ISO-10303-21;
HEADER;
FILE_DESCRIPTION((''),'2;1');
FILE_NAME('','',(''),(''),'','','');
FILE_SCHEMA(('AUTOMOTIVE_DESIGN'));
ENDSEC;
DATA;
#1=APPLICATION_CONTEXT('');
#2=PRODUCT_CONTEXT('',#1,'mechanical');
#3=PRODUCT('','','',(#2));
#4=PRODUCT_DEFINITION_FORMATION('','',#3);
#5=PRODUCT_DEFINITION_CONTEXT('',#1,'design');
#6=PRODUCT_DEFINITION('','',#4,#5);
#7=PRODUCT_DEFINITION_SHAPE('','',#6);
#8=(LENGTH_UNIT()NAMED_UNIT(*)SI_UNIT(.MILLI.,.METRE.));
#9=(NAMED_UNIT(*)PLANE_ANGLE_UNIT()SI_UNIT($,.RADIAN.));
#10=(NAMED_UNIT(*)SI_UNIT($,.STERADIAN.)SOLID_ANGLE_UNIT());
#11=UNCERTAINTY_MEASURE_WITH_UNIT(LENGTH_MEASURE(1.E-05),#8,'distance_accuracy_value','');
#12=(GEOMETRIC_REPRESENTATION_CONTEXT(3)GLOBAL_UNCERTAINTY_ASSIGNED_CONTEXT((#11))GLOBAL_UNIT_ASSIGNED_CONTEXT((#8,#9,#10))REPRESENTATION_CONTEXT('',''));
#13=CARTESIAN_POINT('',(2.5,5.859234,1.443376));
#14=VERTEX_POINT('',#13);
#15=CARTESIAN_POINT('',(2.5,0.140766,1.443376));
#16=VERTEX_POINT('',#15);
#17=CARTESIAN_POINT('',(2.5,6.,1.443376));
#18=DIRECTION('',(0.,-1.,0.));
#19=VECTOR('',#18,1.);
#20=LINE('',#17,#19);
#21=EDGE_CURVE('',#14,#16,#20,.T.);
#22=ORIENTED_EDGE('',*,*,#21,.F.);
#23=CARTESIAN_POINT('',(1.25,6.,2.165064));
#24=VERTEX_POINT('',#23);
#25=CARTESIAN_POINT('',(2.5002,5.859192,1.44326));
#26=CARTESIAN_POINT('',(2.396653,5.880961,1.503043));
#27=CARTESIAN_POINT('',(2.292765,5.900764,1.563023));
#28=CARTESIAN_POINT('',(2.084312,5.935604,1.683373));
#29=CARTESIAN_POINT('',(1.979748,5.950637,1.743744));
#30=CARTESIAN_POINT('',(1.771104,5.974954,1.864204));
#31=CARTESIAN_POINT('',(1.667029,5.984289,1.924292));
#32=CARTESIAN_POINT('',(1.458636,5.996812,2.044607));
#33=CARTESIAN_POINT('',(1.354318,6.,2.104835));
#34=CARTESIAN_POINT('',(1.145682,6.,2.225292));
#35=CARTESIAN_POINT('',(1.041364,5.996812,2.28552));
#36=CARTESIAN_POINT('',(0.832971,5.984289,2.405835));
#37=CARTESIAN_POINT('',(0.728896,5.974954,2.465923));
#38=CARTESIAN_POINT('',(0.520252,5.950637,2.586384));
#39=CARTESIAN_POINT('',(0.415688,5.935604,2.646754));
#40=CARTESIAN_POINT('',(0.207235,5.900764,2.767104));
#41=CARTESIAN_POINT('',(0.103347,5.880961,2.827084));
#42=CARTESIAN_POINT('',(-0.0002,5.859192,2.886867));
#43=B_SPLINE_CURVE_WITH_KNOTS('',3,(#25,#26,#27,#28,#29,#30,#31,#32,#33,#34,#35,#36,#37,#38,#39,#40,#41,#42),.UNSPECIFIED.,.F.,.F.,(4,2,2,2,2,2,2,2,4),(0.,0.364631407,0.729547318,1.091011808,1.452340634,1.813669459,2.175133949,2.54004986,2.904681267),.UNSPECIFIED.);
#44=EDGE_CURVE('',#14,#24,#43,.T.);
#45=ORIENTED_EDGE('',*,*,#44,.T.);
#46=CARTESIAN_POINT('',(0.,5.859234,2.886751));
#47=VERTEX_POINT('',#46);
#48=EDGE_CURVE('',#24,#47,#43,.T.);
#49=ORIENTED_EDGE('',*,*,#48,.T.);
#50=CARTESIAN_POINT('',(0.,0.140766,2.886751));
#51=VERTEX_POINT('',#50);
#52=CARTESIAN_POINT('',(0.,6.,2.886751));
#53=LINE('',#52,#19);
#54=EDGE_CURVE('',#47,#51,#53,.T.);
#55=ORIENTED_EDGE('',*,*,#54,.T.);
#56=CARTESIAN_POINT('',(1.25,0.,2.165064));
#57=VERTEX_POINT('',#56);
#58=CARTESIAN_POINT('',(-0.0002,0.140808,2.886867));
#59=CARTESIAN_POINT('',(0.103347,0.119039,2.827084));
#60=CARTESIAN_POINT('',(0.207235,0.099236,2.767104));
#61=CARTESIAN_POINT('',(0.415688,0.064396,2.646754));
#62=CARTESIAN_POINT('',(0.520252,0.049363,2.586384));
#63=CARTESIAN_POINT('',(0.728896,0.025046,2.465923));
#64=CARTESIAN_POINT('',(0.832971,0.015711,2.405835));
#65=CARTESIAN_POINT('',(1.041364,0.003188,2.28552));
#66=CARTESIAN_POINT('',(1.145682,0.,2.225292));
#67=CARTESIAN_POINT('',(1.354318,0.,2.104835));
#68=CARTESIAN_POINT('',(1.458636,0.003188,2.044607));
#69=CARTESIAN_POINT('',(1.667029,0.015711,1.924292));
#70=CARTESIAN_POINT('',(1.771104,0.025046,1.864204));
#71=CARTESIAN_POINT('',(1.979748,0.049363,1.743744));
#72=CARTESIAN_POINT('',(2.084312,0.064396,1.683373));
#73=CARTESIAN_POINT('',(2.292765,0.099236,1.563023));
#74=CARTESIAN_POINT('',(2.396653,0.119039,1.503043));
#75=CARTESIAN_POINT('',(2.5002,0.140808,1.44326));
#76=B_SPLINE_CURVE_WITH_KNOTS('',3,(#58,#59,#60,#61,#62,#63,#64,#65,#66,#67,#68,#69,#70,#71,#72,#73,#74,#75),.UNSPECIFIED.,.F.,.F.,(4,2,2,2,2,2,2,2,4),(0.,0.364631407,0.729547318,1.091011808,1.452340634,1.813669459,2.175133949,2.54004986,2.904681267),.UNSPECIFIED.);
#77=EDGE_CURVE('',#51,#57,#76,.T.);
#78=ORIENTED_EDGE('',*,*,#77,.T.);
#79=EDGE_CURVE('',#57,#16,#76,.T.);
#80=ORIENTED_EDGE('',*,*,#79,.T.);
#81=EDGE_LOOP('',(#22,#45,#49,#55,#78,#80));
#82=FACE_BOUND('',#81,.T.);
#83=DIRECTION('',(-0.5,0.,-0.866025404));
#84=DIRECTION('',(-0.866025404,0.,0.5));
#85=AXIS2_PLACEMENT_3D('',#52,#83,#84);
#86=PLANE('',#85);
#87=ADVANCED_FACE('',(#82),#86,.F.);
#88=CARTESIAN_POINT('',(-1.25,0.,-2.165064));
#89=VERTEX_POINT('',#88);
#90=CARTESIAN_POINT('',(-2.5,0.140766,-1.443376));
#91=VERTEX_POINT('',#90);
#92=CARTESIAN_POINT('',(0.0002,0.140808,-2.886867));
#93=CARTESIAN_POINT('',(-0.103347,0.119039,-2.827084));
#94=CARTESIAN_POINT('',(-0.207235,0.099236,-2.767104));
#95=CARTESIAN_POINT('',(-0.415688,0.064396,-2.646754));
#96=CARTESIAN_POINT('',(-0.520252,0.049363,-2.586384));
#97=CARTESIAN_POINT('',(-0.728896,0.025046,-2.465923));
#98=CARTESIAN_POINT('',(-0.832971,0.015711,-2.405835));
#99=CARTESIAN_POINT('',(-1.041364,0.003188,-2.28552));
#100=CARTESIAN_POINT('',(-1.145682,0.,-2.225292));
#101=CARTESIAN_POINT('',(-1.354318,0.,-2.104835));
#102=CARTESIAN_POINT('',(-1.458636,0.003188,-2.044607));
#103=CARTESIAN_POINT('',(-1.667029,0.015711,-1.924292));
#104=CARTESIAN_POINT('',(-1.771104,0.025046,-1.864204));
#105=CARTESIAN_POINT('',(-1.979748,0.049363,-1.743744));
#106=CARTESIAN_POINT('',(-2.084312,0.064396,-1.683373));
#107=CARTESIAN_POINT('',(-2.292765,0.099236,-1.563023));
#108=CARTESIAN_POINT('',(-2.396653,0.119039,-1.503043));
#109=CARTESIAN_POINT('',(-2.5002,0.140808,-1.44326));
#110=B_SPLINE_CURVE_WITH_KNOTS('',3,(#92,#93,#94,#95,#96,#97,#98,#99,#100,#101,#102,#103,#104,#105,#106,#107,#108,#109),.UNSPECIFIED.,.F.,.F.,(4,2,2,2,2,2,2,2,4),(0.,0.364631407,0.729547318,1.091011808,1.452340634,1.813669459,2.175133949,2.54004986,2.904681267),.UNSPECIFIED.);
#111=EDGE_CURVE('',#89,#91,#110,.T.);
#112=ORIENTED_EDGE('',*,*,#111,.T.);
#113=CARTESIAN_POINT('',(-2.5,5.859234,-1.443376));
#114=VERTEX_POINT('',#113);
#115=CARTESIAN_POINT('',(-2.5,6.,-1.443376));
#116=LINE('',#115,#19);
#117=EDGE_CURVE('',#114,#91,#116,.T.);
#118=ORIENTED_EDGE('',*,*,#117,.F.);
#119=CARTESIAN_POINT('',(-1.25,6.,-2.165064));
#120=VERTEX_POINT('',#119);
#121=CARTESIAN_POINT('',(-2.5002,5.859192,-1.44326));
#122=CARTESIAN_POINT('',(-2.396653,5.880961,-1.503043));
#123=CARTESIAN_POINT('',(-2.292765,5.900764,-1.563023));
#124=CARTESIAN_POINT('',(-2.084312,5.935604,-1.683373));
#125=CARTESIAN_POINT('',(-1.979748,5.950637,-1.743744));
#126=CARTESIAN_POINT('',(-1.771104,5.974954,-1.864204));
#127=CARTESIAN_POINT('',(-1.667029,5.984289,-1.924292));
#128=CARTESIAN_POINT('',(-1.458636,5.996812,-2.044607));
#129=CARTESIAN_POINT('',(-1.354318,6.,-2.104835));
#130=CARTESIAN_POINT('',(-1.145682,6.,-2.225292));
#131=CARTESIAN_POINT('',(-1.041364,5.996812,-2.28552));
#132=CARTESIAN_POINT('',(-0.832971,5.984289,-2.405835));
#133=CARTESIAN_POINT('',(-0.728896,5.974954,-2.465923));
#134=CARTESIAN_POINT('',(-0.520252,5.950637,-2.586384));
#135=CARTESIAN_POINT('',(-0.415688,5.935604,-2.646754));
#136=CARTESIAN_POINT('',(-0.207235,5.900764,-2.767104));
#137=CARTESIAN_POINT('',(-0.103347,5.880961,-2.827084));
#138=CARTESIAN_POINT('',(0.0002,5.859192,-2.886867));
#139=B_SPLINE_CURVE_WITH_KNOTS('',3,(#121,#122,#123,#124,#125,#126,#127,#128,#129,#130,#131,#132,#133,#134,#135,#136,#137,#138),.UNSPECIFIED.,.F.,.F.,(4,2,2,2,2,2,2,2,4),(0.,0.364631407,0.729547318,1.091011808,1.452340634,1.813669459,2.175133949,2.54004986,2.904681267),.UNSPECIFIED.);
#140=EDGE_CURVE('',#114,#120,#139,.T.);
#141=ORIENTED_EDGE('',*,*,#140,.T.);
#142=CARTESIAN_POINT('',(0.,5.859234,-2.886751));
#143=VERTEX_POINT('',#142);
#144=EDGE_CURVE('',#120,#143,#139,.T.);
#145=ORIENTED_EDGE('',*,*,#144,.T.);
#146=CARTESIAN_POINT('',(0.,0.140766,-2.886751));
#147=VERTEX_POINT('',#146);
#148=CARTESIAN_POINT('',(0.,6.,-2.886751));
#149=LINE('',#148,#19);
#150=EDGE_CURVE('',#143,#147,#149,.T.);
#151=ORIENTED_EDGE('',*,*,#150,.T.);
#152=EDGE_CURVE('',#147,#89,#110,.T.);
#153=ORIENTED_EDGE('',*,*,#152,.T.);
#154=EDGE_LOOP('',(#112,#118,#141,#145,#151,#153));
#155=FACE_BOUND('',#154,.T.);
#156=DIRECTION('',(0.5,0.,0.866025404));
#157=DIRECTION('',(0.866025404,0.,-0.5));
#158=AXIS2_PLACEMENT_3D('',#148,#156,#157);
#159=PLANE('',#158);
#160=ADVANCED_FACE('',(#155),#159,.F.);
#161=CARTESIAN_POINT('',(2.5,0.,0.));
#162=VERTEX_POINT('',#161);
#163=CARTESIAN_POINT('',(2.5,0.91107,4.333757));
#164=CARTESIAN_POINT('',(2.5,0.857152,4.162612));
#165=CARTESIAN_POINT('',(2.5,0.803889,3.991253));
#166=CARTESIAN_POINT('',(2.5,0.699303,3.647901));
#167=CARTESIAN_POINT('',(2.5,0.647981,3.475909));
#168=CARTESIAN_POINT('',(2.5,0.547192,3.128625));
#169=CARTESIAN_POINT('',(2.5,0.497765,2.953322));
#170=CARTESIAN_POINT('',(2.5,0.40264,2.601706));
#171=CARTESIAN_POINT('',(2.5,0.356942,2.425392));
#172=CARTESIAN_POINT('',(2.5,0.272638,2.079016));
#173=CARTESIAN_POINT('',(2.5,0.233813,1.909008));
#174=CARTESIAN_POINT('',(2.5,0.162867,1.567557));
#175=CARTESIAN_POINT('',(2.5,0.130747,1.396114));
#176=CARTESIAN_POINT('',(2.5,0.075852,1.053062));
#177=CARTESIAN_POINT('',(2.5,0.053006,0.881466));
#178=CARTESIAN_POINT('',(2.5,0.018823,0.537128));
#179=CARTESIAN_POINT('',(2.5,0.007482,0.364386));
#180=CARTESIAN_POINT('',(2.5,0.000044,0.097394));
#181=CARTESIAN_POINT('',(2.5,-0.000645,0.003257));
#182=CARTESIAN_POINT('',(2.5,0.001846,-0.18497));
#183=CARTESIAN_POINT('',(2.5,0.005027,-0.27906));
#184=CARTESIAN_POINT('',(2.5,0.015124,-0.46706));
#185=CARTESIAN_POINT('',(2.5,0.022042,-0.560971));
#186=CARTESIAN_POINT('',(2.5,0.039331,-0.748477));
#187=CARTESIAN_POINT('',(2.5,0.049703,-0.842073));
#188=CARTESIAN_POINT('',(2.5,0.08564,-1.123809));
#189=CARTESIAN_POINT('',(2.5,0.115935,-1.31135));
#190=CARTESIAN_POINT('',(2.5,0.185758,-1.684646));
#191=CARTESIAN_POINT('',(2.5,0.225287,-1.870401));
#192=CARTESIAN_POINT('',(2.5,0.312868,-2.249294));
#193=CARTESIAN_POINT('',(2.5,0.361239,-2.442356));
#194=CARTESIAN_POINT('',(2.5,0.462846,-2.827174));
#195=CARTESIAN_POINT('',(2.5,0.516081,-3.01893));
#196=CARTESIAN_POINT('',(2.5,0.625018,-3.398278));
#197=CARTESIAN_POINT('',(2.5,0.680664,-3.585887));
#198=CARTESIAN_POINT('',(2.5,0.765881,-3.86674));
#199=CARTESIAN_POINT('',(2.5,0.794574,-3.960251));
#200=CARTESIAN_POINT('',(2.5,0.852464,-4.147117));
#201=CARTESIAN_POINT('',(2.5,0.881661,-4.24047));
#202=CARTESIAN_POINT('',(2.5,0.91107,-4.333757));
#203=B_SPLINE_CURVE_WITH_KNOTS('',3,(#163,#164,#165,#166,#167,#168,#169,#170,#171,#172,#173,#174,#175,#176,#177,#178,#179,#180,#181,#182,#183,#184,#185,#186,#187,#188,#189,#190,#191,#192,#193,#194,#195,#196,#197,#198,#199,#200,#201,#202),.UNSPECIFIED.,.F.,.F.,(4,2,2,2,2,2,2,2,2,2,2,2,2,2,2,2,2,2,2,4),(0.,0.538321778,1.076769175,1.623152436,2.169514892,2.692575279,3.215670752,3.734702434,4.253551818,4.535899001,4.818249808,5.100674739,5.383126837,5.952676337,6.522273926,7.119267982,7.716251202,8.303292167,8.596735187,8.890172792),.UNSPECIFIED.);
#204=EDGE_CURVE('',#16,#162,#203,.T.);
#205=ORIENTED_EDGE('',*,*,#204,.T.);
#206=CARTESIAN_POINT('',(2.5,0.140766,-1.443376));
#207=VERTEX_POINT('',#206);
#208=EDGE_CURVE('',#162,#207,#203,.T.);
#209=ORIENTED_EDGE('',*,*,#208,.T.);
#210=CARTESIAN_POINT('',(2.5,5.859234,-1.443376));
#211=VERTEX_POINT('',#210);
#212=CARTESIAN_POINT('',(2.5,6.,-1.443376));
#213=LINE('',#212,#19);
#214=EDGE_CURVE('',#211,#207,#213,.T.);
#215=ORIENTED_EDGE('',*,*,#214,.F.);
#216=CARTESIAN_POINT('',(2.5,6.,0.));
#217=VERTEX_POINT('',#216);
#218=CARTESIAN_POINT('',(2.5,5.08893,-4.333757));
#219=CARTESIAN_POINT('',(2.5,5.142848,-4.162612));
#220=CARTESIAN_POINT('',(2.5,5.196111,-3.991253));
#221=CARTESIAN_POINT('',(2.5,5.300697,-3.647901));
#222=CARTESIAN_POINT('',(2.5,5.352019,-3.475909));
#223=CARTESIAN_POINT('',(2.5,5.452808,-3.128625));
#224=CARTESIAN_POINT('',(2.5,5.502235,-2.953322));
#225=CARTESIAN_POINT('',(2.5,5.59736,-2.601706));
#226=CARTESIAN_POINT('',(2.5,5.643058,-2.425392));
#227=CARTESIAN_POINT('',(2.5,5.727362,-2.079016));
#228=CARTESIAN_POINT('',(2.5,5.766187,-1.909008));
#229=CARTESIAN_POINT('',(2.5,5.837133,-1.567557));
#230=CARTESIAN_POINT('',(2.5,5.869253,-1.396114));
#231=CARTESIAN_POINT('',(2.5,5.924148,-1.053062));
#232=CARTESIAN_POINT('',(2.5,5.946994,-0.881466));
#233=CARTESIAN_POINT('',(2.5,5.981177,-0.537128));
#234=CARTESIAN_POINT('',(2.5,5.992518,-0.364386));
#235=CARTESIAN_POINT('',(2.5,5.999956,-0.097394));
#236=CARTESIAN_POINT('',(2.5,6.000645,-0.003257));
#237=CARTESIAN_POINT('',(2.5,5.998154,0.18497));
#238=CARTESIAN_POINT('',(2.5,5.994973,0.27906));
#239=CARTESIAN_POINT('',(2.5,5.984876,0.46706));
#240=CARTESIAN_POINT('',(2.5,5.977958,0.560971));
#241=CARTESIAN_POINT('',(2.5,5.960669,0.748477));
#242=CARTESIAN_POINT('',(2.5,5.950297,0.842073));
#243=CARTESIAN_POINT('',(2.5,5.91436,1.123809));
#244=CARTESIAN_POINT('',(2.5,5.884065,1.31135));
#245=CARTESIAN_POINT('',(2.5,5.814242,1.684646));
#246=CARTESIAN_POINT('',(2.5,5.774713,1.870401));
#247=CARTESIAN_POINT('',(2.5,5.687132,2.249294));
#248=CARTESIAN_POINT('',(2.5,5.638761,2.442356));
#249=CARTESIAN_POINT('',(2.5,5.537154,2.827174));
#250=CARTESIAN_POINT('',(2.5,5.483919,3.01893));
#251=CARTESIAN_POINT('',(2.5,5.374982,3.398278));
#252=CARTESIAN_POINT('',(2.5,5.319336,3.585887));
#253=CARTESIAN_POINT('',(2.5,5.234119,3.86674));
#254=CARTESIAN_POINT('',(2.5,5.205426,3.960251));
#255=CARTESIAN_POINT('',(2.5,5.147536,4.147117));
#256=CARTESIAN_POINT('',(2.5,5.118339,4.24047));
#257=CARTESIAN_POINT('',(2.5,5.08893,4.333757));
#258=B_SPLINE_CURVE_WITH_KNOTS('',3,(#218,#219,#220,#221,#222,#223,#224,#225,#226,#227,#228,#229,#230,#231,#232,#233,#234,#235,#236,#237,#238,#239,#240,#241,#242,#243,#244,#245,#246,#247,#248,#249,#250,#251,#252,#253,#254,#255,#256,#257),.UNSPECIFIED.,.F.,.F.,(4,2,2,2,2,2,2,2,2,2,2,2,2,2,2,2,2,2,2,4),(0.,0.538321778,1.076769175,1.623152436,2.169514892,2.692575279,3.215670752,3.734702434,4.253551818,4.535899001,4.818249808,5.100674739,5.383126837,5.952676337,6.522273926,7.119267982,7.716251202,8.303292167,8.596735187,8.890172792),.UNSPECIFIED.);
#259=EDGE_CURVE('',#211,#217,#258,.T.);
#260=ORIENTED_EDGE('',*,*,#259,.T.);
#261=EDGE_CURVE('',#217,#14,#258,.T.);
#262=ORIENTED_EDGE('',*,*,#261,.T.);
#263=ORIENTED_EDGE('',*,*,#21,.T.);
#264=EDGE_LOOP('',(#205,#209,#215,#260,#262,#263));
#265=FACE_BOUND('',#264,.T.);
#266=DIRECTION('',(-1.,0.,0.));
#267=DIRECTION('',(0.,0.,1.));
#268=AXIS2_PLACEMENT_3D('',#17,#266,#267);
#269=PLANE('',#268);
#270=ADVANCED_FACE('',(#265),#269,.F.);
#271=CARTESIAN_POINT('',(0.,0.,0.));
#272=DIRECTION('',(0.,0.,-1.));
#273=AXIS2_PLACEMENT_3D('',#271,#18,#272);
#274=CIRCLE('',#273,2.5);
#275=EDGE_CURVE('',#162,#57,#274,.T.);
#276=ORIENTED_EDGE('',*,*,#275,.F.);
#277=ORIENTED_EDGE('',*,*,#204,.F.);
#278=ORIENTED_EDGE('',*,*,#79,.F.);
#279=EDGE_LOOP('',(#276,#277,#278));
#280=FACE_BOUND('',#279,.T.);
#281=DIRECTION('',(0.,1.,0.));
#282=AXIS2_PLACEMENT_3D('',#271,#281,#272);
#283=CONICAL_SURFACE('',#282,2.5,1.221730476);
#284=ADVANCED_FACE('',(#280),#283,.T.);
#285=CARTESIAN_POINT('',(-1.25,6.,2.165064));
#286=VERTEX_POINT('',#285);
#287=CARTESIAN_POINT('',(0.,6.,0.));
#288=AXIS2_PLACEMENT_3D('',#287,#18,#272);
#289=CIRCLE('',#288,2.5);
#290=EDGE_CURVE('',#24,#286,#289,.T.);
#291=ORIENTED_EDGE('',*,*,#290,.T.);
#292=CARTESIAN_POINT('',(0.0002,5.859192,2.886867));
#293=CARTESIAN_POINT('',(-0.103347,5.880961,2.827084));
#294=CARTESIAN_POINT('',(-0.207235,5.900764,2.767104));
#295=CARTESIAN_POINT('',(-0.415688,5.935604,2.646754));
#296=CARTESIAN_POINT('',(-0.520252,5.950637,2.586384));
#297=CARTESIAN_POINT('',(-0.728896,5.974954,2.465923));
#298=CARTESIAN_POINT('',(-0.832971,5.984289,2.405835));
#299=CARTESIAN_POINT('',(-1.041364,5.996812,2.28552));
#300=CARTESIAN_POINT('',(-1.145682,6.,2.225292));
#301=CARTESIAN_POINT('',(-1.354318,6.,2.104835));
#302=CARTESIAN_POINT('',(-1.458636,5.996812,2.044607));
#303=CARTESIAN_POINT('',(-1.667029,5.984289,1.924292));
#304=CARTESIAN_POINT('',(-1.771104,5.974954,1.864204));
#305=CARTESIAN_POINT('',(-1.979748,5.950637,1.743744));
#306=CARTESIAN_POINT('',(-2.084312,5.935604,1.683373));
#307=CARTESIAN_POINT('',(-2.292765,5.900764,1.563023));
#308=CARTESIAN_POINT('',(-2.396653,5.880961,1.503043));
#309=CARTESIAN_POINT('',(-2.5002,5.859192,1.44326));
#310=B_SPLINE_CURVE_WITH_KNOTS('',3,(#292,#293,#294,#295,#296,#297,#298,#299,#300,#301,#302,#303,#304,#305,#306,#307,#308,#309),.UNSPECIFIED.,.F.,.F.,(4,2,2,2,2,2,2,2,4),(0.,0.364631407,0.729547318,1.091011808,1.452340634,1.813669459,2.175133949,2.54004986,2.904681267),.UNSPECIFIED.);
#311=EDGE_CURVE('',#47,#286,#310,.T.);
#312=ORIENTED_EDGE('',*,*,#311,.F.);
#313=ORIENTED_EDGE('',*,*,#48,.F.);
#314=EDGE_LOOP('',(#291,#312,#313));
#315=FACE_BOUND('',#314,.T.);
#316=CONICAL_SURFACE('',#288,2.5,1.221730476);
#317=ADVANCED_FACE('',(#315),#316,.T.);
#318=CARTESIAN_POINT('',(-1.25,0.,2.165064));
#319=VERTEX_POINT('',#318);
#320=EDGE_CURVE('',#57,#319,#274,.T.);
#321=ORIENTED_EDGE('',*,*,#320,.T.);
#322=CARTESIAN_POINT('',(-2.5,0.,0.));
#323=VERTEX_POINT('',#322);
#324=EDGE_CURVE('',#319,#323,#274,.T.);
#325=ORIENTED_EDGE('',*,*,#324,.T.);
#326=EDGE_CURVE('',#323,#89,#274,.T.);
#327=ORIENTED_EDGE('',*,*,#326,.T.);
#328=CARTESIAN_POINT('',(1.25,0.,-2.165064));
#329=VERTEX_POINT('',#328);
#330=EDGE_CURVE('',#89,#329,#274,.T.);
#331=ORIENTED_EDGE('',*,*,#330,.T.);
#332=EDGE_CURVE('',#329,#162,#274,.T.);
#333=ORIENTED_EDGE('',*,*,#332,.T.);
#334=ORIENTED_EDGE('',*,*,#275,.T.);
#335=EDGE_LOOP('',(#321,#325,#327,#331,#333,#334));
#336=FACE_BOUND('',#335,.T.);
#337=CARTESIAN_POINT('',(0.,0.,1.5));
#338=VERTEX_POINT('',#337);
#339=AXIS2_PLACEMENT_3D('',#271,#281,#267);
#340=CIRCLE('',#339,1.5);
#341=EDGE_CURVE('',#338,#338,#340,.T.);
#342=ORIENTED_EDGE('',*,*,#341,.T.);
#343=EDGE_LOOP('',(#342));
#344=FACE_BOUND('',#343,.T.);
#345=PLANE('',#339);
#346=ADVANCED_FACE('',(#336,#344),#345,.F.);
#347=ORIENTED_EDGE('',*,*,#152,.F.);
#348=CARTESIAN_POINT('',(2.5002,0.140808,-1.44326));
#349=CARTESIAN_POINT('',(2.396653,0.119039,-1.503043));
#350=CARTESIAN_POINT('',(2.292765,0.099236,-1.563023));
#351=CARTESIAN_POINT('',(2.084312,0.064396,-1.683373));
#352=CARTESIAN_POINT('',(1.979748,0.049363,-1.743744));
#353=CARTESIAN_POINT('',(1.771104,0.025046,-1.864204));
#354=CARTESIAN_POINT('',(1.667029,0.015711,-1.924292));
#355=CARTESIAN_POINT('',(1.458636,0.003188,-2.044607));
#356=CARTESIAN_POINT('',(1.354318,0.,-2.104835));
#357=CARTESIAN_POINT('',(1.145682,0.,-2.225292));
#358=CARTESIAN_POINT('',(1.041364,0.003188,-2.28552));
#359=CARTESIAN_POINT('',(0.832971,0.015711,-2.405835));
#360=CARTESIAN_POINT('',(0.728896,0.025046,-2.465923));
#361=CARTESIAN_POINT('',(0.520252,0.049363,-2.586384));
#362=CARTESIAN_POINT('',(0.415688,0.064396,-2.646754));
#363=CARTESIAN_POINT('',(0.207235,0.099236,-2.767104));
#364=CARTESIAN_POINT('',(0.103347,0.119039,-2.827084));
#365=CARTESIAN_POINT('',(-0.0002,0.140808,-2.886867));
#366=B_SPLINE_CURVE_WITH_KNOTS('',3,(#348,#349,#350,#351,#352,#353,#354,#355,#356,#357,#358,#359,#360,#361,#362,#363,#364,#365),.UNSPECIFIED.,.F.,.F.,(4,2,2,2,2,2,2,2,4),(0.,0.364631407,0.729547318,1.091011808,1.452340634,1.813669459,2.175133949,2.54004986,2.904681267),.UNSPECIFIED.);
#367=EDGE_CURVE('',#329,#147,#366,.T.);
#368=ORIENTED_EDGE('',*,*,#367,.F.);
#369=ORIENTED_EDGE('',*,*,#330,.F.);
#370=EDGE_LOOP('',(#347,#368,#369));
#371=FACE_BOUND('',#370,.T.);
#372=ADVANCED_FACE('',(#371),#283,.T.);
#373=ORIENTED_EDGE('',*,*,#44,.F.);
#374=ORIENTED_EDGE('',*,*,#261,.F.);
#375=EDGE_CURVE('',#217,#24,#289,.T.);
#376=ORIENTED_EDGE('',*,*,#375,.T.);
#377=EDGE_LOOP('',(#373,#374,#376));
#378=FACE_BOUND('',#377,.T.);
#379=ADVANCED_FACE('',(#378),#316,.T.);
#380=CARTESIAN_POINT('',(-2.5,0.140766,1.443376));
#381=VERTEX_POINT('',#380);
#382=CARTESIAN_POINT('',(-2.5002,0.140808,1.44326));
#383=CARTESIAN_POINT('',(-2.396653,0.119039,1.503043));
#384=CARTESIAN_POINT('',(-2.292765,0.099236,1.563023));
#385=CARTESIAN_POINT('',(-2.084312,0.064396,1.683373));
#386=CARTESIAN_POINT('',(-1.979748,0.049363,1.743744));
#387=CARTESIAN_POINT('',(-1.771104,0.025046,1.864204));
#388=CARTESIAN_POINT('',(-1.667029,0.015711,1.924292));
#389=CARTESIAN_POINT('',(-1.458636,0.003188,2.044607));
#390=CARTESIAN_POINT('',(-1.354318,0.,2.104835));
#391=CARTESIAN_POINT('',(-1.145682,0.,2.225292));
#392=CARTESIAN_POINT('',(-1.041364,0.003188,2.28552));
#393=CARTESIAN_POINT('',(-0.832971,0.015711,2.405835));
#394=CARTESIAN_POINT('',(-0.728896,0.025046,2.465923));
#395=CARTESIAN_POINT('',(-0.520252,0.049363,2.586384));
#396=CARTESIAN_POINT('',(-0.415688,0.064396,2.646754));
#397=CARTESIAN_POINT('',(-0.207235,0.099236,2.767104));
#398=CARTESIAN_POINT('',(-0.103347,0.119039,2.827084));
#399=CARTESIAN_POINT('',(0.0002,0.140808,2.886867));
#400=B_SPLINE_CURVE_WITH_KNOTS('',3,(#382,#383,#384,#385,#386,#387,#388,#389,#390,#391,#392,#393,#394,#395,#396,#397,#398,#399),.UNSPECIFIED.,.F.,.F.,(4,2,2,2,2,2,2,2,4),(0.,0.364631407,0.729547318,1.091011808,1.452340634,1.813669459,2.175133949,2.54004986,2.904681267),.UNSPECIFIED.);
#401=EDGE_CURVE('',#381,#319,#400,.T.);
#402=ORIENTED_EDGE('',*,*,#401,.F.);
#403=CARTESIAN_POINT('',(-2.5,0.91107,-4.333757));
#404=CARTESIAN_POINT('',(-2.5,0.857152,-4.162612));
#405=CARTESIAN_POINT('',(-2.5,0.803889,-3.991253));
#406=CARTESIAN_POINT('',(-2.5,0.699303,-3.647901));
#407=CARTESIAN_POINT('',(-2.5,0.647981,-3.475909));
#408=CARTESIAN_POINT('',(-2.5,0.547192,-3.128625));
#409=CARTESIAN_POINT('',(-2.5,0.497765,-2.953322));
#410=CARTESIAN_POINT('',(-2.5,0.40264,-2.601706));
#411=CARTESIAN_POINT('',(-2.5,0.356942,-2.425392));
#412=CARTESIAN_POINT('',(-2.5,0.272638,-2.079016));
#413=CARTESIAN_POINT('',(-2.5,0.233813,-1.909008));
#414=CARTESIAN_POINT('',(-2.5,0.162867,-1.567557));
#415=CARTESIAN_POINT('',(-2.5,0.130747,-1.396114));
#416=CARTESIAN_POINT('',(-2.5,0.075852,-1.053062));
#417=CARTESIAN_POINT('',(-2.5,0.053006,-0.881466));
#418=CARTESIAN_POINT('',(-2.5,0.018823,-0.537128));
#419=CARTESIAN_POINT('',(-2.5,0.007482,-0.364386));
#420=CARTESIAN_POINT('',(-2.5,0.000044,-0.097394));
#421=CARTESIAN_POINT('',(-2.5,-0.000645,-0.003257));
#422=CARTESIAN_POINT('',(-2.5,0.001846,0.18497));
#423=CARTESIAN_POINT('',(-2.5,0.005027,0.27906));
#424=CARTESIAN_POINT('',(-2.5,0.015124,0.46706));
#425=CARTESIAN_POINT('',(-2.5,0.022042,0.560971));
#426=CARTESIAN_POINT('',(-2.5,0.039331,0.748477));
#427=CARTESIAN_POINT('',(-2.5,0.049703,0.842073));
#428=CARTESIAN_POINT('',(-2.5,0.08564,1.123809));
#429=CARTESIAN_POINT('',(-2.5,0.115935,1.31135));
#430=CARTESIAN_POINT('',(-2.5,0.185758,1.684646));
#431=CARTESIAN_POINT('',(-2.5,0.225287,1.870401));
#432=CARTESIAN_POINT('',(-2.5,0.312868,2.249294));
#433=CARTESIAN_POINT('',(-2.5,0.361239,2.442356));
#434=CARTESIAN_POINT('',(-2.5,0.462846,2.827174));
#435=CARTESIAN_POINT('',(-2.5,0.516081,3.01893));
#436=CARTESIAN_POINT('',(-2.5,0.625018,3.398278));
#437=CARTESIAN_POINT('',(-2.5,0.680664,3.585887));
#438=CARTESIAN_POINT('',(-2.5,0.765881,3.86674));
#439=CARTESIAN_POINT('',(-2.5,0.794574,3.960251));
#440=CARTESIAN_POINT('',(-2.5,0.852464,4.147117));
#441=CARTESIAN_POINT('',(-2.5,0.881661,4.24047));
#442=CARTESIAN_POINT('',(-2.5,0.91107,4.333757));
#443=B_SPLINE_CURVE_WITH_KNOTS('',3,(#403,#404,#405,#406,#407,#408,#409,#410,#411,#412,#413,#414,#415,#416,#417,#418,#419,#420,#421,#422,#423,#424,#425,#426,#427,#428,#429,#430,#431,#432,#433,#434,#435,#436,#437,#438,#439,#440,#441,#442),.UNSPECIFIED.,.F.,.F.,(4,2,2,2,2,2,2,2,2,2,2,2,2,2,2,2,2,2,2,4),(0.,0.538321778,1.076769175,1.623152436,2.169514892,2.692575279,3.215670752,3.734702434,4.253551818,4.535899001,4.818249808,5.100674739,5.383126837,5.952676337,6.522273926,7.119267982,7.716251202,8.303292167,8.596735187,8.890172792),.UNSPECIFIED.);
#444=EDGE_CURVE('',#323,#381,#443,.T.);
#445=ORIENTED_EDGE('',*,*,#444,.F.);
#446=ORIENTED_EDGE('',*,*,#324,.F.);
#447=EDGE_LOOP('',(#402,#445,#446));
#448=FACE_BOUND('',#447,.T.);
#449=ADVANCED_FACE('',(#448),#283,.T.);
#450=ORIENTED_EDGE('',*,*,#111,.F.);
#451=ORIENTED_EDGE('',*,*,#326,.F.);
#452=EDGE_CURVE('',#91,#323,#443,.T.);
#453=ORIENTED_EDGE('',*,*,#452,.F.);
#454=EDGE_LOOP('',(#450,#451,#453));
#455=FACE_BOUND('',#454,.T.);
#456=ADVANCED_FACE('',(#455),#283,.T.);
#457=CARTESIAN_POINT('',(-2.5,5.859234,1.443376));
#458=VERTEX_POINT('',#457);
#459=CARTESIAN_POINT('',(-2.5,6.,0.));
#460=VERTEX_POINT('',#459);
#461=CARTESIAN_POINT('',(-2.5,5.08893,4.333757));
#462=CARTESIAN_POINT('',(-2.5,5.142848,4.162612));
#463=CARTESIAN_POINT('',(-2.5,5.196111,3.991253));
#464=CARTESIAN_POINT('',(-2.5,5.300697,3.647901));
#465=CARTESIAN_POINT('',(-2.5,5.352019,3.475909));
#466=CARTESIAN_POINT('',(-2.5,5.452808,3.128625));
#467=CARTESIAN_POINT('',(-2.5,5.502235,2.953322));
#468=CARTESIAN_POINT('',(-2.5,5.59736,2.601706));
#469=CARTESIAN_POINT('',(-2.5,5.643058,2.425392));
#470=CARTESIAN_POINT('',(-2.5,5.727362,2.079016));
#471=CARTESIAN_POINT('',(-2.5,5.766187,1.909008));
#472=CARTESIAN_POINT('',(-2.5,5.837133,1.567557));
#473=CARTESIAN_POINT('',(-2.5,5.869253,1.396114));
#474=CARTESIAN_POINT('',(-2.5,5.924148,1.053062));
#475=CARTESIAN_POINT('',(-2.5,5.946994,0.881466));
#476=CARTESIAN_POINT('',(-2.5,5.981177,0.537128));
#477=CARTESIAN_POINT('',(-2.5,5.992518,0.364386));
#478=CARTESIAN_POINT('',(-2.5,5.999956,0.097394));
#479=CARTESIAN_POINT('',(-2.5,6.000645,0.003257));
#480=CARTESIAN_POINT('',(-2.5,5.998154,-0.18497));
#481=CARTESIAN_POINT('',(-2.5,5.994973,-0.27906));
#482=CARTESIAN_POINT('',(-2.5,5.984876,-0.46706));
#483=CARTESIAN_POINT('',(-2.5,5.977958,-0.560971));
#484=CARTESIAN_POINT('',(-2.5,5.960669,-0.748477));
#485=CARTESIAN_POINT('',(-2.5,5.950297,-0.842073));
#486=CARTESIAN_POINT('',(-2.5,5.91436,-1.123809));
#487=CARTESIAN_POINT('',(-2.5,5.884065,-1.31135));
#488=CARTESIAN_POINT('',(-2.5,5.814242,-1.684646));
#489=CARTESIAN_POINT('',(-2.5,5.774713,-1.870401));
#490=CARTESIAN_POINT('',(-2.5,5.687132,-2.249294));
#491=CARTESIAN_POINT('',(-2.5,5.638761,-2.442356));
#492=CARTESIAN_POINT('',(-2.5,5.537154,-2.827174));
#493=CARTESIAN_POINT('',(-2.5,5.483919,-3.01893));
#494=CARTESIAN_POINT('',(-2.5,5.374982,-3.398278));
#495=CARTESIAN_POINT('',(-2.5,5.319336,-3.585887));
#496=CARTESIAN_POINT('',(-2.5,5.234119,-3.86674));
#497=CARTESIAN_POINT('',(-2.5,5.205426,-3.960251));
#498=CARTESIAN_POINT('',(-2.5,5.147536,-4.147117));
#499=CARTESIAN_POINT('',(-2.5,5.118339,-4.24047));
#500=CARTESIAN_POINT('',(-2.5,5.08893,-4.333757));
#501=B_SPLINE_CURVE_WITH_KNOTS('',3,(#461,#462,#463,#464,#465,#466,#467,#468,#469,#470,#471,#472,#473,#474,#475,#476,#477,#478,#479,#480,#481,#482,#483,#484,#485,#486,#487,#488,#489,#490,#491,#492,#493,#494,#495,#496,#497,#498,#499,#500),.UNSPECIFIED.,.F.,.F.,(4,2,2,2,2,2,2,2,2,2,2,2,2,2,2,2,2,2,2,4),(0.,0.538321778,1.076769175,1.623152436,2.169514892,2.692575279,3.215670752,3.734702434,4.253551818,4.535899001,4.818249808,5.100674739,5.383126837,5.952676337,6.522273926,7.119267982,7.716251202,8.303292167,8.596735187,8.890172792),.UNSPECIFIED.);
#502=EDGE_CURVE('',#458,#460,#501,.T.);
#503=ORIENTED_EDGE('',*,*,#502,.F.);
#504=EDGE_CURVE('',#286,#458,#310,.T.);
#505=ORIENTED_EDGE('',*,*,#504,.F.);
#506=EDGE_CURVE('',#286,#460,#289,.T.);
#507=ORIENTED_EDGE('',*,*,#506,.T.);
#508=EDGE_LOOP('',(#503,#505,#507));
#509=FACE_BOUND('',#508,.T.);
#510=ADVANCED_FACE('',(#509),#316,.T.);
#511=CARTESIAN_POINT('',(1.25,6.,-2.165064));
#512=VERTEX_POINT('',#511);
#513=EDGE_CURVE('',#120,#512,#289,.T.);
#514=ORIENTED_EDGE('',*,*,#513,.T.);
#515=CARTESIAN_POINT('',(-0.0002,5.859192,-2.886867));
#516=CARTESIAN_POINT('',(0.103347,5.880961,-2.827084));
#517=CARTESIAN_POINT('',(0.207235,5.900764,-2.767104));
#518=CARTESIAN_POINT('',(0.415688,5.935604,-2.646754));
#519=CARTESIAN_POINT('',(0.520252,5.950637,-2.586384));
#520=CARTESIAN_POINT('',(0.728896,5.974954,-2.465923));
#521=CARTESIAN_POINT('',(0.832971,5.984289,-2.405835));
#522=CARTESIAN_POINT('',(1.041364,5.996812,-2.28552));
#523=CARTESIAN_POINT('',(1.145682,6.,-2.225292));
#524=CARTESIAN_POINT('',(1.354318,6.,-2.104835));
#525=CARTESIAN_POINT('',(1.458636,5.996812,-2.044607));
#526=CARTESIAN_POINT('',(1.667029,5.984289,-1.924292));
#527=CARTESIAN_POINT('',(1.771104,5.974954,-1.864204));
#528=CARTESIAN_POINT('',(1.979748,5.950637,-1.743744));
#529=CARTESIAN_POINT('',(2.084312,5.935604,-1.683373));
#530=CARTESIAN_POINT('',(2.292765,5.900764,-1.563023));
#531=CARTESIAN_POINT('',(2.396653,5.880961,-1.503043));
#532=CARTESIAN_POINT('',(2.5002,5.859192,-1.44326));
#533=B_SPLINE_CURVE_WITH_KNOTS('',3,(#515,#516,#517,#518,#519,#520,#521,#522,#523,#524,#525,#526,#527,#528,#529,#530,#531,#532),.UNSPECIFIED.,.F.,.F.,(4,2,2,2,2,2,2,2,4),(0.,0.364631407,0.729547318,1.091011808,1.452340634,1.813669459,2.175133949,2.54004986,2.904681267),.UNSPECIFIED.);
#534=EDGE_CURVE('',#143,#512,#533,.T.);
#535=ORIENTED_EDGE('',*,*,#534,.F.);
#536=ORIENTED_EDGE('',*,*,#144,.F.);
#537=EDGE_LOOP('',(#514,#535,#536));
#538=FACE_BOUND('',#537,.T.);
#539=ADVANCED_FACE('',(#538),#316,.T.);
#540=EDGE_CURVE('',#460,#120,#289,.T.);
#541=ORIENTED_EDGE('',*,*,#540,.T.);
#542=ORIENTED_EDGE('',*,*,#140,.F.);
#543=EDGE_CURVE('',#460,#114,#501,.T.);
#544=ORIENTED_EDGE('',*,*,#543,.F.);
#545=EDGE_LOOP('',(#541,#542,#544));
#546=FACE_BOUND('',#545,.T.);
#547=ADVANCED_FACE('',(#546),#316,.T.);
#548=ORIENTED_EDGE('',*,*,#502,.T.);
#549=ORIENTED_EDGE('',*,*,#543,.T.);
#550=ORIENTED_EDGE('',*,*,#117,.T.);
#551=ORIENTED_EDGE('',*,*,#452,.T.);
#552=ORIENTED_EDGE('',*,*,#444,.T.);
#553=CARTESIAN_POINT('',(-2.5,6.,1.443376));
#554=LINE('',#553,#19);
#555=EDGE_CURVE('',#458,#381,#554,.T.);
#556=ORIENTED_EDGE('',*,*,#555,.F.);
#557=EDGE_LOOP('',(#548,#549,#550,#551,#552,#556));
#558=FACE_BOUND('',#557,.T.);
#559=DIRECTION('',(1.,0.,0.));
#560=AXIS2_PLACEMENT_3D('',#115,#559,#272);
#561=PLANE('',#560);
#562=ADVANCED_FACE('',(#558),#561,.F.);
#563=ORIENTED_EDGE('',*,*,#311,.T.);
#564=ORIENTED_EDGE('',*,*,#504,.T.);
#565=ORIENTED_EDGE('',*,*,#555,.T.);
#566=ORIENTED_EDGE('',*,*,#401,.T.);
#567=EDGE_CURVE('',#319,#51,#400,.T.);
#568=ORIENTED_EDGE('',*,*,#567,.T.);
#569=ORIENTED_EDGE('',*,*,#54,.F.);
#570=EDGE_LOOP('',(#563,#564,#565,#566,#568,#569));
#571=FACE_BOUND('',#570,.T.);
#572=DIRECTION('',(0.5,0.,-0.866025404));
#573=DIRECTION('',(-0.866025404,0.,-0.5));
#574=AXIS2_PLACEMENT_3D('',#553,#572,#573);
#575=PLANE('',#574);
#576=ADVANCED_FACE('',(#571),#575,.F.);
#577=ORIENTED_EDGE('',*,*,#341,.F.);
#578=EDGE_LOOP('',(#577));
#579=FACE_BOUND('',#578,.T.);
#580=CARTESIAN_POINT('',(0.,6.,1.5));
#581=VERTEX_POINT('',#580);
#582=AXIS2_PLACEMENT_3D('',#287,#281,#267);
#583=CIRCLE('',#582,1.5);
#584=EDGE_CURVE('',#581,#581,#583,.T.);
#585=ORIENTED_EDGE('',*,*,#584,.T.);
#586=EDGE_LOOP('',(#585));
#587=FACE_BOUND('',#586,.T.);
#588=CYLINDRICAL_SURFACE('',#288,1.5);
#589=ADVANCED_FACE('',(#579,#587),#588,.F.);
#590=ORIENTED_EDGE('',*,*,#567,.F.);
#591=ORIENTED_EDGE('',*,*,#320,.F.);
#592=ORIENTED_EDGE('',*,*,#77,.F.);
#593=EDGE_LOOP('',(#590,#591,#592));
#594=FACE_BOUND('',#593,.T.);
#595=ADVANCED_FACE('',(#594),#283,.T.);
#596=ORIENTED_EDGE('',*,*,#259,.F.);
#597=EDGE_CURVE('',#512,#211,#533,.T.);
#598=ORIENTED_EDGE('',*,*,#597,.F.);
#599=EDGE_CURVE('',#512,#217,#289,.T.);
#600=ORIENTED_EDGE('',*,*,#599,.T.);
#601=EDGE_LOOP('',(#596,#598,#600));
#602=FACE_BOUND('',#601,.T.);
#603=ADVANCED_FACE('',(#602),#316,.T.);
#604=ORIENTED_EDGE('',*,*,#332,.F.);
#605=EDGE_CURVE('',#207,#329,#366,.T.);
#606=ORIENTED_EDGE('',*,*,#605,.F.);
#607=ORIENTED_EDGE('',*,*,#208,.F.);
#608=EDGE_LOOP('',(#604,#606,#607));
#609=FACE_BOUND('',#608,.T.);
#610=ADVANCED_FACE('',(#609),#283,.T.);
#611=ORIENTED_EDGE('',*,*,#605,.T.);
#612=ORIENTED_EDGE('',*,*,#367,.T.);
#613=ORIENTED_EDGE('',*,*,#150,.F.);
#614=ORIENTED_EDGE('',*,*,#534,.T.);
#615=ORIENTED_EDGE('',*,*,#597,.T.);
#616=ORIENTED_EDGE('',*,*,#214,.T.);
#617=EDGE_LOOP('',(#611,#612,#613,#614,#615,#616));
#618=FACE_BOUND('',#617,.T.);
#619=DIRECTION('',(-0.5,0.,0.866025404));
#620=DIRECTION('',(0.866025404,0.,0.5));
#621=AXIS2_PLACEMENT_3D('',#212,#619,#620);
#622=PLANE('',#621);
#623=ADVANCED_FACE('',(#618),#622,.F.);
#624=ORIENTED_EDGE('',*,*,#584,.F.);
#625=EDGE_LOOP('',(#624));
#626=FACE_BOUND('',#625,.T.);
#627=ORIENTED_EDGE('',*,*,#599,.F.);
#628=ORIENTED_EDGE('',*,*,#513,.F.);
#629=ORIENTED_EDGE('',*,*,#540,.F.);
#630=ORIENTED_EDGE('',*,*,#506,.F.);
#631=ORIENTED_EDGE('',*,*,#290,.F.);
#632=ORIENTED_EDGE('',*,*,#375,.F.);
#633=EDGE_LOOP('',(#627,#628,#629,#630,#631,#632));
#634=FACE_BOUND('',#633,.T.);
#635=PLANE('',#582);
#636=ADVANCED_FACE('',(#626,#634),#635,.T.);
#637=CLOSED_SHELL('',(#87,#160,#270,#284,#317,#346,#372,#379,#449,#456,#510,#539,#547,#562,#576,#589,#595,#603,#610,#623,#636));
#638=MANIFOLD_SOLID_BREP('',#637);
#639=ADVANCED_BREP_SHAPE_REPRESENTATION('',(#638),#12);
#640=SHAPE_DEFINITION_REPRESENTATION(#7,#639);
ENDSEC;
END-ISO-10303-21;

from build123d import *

# Parameters (mm, degrees)
SKETCH1_R           = 1.5
BOSS_EXTRUDE1_DEPTH = 6


with BuildPart() as part:
    # Sketch1 → Boss-Extrude1 (new body)
    with BuildSketch(Plane(origin=(0, 0, 0), x_dir=(1, 0, 0), z_dir=(0, 1, 0))):
        Polygon((0, 2.886751346), (-2.5, 1.443375673), (-2.5, -1.443375673), (0, -2.886751346), (2.5, -1.443375673), (2.5, 1.443375673), align=None)
        with Locations(Location((0, 0, 0), (0, 0, 270))):
            Circle(SKETCH1_R, mode=Mode.SUBTRACT)
    extrude(amount=BOSS_EXTRUDE1_DEPTH)

    # Sketch6 → Cut-Revolve1 (revolve, cut)
    with BuildSketch(Plane.ZY):
        Polygon((2.5, 6), (2.886751346, 6), (2.886751346, 5.859234022), align=None)
    cut_revolve1 = revolve(axis=Axis((0, 6, 0), (0, 1, 0)), mode=Mode.SUBTRACT)

    # Mirror1: Cut-Revolve1 across plane
    add(cut_revolve1.mirror(Plane.ZX.offset(3)), mode=Mode.SUBTRACT)


solid = part.part
